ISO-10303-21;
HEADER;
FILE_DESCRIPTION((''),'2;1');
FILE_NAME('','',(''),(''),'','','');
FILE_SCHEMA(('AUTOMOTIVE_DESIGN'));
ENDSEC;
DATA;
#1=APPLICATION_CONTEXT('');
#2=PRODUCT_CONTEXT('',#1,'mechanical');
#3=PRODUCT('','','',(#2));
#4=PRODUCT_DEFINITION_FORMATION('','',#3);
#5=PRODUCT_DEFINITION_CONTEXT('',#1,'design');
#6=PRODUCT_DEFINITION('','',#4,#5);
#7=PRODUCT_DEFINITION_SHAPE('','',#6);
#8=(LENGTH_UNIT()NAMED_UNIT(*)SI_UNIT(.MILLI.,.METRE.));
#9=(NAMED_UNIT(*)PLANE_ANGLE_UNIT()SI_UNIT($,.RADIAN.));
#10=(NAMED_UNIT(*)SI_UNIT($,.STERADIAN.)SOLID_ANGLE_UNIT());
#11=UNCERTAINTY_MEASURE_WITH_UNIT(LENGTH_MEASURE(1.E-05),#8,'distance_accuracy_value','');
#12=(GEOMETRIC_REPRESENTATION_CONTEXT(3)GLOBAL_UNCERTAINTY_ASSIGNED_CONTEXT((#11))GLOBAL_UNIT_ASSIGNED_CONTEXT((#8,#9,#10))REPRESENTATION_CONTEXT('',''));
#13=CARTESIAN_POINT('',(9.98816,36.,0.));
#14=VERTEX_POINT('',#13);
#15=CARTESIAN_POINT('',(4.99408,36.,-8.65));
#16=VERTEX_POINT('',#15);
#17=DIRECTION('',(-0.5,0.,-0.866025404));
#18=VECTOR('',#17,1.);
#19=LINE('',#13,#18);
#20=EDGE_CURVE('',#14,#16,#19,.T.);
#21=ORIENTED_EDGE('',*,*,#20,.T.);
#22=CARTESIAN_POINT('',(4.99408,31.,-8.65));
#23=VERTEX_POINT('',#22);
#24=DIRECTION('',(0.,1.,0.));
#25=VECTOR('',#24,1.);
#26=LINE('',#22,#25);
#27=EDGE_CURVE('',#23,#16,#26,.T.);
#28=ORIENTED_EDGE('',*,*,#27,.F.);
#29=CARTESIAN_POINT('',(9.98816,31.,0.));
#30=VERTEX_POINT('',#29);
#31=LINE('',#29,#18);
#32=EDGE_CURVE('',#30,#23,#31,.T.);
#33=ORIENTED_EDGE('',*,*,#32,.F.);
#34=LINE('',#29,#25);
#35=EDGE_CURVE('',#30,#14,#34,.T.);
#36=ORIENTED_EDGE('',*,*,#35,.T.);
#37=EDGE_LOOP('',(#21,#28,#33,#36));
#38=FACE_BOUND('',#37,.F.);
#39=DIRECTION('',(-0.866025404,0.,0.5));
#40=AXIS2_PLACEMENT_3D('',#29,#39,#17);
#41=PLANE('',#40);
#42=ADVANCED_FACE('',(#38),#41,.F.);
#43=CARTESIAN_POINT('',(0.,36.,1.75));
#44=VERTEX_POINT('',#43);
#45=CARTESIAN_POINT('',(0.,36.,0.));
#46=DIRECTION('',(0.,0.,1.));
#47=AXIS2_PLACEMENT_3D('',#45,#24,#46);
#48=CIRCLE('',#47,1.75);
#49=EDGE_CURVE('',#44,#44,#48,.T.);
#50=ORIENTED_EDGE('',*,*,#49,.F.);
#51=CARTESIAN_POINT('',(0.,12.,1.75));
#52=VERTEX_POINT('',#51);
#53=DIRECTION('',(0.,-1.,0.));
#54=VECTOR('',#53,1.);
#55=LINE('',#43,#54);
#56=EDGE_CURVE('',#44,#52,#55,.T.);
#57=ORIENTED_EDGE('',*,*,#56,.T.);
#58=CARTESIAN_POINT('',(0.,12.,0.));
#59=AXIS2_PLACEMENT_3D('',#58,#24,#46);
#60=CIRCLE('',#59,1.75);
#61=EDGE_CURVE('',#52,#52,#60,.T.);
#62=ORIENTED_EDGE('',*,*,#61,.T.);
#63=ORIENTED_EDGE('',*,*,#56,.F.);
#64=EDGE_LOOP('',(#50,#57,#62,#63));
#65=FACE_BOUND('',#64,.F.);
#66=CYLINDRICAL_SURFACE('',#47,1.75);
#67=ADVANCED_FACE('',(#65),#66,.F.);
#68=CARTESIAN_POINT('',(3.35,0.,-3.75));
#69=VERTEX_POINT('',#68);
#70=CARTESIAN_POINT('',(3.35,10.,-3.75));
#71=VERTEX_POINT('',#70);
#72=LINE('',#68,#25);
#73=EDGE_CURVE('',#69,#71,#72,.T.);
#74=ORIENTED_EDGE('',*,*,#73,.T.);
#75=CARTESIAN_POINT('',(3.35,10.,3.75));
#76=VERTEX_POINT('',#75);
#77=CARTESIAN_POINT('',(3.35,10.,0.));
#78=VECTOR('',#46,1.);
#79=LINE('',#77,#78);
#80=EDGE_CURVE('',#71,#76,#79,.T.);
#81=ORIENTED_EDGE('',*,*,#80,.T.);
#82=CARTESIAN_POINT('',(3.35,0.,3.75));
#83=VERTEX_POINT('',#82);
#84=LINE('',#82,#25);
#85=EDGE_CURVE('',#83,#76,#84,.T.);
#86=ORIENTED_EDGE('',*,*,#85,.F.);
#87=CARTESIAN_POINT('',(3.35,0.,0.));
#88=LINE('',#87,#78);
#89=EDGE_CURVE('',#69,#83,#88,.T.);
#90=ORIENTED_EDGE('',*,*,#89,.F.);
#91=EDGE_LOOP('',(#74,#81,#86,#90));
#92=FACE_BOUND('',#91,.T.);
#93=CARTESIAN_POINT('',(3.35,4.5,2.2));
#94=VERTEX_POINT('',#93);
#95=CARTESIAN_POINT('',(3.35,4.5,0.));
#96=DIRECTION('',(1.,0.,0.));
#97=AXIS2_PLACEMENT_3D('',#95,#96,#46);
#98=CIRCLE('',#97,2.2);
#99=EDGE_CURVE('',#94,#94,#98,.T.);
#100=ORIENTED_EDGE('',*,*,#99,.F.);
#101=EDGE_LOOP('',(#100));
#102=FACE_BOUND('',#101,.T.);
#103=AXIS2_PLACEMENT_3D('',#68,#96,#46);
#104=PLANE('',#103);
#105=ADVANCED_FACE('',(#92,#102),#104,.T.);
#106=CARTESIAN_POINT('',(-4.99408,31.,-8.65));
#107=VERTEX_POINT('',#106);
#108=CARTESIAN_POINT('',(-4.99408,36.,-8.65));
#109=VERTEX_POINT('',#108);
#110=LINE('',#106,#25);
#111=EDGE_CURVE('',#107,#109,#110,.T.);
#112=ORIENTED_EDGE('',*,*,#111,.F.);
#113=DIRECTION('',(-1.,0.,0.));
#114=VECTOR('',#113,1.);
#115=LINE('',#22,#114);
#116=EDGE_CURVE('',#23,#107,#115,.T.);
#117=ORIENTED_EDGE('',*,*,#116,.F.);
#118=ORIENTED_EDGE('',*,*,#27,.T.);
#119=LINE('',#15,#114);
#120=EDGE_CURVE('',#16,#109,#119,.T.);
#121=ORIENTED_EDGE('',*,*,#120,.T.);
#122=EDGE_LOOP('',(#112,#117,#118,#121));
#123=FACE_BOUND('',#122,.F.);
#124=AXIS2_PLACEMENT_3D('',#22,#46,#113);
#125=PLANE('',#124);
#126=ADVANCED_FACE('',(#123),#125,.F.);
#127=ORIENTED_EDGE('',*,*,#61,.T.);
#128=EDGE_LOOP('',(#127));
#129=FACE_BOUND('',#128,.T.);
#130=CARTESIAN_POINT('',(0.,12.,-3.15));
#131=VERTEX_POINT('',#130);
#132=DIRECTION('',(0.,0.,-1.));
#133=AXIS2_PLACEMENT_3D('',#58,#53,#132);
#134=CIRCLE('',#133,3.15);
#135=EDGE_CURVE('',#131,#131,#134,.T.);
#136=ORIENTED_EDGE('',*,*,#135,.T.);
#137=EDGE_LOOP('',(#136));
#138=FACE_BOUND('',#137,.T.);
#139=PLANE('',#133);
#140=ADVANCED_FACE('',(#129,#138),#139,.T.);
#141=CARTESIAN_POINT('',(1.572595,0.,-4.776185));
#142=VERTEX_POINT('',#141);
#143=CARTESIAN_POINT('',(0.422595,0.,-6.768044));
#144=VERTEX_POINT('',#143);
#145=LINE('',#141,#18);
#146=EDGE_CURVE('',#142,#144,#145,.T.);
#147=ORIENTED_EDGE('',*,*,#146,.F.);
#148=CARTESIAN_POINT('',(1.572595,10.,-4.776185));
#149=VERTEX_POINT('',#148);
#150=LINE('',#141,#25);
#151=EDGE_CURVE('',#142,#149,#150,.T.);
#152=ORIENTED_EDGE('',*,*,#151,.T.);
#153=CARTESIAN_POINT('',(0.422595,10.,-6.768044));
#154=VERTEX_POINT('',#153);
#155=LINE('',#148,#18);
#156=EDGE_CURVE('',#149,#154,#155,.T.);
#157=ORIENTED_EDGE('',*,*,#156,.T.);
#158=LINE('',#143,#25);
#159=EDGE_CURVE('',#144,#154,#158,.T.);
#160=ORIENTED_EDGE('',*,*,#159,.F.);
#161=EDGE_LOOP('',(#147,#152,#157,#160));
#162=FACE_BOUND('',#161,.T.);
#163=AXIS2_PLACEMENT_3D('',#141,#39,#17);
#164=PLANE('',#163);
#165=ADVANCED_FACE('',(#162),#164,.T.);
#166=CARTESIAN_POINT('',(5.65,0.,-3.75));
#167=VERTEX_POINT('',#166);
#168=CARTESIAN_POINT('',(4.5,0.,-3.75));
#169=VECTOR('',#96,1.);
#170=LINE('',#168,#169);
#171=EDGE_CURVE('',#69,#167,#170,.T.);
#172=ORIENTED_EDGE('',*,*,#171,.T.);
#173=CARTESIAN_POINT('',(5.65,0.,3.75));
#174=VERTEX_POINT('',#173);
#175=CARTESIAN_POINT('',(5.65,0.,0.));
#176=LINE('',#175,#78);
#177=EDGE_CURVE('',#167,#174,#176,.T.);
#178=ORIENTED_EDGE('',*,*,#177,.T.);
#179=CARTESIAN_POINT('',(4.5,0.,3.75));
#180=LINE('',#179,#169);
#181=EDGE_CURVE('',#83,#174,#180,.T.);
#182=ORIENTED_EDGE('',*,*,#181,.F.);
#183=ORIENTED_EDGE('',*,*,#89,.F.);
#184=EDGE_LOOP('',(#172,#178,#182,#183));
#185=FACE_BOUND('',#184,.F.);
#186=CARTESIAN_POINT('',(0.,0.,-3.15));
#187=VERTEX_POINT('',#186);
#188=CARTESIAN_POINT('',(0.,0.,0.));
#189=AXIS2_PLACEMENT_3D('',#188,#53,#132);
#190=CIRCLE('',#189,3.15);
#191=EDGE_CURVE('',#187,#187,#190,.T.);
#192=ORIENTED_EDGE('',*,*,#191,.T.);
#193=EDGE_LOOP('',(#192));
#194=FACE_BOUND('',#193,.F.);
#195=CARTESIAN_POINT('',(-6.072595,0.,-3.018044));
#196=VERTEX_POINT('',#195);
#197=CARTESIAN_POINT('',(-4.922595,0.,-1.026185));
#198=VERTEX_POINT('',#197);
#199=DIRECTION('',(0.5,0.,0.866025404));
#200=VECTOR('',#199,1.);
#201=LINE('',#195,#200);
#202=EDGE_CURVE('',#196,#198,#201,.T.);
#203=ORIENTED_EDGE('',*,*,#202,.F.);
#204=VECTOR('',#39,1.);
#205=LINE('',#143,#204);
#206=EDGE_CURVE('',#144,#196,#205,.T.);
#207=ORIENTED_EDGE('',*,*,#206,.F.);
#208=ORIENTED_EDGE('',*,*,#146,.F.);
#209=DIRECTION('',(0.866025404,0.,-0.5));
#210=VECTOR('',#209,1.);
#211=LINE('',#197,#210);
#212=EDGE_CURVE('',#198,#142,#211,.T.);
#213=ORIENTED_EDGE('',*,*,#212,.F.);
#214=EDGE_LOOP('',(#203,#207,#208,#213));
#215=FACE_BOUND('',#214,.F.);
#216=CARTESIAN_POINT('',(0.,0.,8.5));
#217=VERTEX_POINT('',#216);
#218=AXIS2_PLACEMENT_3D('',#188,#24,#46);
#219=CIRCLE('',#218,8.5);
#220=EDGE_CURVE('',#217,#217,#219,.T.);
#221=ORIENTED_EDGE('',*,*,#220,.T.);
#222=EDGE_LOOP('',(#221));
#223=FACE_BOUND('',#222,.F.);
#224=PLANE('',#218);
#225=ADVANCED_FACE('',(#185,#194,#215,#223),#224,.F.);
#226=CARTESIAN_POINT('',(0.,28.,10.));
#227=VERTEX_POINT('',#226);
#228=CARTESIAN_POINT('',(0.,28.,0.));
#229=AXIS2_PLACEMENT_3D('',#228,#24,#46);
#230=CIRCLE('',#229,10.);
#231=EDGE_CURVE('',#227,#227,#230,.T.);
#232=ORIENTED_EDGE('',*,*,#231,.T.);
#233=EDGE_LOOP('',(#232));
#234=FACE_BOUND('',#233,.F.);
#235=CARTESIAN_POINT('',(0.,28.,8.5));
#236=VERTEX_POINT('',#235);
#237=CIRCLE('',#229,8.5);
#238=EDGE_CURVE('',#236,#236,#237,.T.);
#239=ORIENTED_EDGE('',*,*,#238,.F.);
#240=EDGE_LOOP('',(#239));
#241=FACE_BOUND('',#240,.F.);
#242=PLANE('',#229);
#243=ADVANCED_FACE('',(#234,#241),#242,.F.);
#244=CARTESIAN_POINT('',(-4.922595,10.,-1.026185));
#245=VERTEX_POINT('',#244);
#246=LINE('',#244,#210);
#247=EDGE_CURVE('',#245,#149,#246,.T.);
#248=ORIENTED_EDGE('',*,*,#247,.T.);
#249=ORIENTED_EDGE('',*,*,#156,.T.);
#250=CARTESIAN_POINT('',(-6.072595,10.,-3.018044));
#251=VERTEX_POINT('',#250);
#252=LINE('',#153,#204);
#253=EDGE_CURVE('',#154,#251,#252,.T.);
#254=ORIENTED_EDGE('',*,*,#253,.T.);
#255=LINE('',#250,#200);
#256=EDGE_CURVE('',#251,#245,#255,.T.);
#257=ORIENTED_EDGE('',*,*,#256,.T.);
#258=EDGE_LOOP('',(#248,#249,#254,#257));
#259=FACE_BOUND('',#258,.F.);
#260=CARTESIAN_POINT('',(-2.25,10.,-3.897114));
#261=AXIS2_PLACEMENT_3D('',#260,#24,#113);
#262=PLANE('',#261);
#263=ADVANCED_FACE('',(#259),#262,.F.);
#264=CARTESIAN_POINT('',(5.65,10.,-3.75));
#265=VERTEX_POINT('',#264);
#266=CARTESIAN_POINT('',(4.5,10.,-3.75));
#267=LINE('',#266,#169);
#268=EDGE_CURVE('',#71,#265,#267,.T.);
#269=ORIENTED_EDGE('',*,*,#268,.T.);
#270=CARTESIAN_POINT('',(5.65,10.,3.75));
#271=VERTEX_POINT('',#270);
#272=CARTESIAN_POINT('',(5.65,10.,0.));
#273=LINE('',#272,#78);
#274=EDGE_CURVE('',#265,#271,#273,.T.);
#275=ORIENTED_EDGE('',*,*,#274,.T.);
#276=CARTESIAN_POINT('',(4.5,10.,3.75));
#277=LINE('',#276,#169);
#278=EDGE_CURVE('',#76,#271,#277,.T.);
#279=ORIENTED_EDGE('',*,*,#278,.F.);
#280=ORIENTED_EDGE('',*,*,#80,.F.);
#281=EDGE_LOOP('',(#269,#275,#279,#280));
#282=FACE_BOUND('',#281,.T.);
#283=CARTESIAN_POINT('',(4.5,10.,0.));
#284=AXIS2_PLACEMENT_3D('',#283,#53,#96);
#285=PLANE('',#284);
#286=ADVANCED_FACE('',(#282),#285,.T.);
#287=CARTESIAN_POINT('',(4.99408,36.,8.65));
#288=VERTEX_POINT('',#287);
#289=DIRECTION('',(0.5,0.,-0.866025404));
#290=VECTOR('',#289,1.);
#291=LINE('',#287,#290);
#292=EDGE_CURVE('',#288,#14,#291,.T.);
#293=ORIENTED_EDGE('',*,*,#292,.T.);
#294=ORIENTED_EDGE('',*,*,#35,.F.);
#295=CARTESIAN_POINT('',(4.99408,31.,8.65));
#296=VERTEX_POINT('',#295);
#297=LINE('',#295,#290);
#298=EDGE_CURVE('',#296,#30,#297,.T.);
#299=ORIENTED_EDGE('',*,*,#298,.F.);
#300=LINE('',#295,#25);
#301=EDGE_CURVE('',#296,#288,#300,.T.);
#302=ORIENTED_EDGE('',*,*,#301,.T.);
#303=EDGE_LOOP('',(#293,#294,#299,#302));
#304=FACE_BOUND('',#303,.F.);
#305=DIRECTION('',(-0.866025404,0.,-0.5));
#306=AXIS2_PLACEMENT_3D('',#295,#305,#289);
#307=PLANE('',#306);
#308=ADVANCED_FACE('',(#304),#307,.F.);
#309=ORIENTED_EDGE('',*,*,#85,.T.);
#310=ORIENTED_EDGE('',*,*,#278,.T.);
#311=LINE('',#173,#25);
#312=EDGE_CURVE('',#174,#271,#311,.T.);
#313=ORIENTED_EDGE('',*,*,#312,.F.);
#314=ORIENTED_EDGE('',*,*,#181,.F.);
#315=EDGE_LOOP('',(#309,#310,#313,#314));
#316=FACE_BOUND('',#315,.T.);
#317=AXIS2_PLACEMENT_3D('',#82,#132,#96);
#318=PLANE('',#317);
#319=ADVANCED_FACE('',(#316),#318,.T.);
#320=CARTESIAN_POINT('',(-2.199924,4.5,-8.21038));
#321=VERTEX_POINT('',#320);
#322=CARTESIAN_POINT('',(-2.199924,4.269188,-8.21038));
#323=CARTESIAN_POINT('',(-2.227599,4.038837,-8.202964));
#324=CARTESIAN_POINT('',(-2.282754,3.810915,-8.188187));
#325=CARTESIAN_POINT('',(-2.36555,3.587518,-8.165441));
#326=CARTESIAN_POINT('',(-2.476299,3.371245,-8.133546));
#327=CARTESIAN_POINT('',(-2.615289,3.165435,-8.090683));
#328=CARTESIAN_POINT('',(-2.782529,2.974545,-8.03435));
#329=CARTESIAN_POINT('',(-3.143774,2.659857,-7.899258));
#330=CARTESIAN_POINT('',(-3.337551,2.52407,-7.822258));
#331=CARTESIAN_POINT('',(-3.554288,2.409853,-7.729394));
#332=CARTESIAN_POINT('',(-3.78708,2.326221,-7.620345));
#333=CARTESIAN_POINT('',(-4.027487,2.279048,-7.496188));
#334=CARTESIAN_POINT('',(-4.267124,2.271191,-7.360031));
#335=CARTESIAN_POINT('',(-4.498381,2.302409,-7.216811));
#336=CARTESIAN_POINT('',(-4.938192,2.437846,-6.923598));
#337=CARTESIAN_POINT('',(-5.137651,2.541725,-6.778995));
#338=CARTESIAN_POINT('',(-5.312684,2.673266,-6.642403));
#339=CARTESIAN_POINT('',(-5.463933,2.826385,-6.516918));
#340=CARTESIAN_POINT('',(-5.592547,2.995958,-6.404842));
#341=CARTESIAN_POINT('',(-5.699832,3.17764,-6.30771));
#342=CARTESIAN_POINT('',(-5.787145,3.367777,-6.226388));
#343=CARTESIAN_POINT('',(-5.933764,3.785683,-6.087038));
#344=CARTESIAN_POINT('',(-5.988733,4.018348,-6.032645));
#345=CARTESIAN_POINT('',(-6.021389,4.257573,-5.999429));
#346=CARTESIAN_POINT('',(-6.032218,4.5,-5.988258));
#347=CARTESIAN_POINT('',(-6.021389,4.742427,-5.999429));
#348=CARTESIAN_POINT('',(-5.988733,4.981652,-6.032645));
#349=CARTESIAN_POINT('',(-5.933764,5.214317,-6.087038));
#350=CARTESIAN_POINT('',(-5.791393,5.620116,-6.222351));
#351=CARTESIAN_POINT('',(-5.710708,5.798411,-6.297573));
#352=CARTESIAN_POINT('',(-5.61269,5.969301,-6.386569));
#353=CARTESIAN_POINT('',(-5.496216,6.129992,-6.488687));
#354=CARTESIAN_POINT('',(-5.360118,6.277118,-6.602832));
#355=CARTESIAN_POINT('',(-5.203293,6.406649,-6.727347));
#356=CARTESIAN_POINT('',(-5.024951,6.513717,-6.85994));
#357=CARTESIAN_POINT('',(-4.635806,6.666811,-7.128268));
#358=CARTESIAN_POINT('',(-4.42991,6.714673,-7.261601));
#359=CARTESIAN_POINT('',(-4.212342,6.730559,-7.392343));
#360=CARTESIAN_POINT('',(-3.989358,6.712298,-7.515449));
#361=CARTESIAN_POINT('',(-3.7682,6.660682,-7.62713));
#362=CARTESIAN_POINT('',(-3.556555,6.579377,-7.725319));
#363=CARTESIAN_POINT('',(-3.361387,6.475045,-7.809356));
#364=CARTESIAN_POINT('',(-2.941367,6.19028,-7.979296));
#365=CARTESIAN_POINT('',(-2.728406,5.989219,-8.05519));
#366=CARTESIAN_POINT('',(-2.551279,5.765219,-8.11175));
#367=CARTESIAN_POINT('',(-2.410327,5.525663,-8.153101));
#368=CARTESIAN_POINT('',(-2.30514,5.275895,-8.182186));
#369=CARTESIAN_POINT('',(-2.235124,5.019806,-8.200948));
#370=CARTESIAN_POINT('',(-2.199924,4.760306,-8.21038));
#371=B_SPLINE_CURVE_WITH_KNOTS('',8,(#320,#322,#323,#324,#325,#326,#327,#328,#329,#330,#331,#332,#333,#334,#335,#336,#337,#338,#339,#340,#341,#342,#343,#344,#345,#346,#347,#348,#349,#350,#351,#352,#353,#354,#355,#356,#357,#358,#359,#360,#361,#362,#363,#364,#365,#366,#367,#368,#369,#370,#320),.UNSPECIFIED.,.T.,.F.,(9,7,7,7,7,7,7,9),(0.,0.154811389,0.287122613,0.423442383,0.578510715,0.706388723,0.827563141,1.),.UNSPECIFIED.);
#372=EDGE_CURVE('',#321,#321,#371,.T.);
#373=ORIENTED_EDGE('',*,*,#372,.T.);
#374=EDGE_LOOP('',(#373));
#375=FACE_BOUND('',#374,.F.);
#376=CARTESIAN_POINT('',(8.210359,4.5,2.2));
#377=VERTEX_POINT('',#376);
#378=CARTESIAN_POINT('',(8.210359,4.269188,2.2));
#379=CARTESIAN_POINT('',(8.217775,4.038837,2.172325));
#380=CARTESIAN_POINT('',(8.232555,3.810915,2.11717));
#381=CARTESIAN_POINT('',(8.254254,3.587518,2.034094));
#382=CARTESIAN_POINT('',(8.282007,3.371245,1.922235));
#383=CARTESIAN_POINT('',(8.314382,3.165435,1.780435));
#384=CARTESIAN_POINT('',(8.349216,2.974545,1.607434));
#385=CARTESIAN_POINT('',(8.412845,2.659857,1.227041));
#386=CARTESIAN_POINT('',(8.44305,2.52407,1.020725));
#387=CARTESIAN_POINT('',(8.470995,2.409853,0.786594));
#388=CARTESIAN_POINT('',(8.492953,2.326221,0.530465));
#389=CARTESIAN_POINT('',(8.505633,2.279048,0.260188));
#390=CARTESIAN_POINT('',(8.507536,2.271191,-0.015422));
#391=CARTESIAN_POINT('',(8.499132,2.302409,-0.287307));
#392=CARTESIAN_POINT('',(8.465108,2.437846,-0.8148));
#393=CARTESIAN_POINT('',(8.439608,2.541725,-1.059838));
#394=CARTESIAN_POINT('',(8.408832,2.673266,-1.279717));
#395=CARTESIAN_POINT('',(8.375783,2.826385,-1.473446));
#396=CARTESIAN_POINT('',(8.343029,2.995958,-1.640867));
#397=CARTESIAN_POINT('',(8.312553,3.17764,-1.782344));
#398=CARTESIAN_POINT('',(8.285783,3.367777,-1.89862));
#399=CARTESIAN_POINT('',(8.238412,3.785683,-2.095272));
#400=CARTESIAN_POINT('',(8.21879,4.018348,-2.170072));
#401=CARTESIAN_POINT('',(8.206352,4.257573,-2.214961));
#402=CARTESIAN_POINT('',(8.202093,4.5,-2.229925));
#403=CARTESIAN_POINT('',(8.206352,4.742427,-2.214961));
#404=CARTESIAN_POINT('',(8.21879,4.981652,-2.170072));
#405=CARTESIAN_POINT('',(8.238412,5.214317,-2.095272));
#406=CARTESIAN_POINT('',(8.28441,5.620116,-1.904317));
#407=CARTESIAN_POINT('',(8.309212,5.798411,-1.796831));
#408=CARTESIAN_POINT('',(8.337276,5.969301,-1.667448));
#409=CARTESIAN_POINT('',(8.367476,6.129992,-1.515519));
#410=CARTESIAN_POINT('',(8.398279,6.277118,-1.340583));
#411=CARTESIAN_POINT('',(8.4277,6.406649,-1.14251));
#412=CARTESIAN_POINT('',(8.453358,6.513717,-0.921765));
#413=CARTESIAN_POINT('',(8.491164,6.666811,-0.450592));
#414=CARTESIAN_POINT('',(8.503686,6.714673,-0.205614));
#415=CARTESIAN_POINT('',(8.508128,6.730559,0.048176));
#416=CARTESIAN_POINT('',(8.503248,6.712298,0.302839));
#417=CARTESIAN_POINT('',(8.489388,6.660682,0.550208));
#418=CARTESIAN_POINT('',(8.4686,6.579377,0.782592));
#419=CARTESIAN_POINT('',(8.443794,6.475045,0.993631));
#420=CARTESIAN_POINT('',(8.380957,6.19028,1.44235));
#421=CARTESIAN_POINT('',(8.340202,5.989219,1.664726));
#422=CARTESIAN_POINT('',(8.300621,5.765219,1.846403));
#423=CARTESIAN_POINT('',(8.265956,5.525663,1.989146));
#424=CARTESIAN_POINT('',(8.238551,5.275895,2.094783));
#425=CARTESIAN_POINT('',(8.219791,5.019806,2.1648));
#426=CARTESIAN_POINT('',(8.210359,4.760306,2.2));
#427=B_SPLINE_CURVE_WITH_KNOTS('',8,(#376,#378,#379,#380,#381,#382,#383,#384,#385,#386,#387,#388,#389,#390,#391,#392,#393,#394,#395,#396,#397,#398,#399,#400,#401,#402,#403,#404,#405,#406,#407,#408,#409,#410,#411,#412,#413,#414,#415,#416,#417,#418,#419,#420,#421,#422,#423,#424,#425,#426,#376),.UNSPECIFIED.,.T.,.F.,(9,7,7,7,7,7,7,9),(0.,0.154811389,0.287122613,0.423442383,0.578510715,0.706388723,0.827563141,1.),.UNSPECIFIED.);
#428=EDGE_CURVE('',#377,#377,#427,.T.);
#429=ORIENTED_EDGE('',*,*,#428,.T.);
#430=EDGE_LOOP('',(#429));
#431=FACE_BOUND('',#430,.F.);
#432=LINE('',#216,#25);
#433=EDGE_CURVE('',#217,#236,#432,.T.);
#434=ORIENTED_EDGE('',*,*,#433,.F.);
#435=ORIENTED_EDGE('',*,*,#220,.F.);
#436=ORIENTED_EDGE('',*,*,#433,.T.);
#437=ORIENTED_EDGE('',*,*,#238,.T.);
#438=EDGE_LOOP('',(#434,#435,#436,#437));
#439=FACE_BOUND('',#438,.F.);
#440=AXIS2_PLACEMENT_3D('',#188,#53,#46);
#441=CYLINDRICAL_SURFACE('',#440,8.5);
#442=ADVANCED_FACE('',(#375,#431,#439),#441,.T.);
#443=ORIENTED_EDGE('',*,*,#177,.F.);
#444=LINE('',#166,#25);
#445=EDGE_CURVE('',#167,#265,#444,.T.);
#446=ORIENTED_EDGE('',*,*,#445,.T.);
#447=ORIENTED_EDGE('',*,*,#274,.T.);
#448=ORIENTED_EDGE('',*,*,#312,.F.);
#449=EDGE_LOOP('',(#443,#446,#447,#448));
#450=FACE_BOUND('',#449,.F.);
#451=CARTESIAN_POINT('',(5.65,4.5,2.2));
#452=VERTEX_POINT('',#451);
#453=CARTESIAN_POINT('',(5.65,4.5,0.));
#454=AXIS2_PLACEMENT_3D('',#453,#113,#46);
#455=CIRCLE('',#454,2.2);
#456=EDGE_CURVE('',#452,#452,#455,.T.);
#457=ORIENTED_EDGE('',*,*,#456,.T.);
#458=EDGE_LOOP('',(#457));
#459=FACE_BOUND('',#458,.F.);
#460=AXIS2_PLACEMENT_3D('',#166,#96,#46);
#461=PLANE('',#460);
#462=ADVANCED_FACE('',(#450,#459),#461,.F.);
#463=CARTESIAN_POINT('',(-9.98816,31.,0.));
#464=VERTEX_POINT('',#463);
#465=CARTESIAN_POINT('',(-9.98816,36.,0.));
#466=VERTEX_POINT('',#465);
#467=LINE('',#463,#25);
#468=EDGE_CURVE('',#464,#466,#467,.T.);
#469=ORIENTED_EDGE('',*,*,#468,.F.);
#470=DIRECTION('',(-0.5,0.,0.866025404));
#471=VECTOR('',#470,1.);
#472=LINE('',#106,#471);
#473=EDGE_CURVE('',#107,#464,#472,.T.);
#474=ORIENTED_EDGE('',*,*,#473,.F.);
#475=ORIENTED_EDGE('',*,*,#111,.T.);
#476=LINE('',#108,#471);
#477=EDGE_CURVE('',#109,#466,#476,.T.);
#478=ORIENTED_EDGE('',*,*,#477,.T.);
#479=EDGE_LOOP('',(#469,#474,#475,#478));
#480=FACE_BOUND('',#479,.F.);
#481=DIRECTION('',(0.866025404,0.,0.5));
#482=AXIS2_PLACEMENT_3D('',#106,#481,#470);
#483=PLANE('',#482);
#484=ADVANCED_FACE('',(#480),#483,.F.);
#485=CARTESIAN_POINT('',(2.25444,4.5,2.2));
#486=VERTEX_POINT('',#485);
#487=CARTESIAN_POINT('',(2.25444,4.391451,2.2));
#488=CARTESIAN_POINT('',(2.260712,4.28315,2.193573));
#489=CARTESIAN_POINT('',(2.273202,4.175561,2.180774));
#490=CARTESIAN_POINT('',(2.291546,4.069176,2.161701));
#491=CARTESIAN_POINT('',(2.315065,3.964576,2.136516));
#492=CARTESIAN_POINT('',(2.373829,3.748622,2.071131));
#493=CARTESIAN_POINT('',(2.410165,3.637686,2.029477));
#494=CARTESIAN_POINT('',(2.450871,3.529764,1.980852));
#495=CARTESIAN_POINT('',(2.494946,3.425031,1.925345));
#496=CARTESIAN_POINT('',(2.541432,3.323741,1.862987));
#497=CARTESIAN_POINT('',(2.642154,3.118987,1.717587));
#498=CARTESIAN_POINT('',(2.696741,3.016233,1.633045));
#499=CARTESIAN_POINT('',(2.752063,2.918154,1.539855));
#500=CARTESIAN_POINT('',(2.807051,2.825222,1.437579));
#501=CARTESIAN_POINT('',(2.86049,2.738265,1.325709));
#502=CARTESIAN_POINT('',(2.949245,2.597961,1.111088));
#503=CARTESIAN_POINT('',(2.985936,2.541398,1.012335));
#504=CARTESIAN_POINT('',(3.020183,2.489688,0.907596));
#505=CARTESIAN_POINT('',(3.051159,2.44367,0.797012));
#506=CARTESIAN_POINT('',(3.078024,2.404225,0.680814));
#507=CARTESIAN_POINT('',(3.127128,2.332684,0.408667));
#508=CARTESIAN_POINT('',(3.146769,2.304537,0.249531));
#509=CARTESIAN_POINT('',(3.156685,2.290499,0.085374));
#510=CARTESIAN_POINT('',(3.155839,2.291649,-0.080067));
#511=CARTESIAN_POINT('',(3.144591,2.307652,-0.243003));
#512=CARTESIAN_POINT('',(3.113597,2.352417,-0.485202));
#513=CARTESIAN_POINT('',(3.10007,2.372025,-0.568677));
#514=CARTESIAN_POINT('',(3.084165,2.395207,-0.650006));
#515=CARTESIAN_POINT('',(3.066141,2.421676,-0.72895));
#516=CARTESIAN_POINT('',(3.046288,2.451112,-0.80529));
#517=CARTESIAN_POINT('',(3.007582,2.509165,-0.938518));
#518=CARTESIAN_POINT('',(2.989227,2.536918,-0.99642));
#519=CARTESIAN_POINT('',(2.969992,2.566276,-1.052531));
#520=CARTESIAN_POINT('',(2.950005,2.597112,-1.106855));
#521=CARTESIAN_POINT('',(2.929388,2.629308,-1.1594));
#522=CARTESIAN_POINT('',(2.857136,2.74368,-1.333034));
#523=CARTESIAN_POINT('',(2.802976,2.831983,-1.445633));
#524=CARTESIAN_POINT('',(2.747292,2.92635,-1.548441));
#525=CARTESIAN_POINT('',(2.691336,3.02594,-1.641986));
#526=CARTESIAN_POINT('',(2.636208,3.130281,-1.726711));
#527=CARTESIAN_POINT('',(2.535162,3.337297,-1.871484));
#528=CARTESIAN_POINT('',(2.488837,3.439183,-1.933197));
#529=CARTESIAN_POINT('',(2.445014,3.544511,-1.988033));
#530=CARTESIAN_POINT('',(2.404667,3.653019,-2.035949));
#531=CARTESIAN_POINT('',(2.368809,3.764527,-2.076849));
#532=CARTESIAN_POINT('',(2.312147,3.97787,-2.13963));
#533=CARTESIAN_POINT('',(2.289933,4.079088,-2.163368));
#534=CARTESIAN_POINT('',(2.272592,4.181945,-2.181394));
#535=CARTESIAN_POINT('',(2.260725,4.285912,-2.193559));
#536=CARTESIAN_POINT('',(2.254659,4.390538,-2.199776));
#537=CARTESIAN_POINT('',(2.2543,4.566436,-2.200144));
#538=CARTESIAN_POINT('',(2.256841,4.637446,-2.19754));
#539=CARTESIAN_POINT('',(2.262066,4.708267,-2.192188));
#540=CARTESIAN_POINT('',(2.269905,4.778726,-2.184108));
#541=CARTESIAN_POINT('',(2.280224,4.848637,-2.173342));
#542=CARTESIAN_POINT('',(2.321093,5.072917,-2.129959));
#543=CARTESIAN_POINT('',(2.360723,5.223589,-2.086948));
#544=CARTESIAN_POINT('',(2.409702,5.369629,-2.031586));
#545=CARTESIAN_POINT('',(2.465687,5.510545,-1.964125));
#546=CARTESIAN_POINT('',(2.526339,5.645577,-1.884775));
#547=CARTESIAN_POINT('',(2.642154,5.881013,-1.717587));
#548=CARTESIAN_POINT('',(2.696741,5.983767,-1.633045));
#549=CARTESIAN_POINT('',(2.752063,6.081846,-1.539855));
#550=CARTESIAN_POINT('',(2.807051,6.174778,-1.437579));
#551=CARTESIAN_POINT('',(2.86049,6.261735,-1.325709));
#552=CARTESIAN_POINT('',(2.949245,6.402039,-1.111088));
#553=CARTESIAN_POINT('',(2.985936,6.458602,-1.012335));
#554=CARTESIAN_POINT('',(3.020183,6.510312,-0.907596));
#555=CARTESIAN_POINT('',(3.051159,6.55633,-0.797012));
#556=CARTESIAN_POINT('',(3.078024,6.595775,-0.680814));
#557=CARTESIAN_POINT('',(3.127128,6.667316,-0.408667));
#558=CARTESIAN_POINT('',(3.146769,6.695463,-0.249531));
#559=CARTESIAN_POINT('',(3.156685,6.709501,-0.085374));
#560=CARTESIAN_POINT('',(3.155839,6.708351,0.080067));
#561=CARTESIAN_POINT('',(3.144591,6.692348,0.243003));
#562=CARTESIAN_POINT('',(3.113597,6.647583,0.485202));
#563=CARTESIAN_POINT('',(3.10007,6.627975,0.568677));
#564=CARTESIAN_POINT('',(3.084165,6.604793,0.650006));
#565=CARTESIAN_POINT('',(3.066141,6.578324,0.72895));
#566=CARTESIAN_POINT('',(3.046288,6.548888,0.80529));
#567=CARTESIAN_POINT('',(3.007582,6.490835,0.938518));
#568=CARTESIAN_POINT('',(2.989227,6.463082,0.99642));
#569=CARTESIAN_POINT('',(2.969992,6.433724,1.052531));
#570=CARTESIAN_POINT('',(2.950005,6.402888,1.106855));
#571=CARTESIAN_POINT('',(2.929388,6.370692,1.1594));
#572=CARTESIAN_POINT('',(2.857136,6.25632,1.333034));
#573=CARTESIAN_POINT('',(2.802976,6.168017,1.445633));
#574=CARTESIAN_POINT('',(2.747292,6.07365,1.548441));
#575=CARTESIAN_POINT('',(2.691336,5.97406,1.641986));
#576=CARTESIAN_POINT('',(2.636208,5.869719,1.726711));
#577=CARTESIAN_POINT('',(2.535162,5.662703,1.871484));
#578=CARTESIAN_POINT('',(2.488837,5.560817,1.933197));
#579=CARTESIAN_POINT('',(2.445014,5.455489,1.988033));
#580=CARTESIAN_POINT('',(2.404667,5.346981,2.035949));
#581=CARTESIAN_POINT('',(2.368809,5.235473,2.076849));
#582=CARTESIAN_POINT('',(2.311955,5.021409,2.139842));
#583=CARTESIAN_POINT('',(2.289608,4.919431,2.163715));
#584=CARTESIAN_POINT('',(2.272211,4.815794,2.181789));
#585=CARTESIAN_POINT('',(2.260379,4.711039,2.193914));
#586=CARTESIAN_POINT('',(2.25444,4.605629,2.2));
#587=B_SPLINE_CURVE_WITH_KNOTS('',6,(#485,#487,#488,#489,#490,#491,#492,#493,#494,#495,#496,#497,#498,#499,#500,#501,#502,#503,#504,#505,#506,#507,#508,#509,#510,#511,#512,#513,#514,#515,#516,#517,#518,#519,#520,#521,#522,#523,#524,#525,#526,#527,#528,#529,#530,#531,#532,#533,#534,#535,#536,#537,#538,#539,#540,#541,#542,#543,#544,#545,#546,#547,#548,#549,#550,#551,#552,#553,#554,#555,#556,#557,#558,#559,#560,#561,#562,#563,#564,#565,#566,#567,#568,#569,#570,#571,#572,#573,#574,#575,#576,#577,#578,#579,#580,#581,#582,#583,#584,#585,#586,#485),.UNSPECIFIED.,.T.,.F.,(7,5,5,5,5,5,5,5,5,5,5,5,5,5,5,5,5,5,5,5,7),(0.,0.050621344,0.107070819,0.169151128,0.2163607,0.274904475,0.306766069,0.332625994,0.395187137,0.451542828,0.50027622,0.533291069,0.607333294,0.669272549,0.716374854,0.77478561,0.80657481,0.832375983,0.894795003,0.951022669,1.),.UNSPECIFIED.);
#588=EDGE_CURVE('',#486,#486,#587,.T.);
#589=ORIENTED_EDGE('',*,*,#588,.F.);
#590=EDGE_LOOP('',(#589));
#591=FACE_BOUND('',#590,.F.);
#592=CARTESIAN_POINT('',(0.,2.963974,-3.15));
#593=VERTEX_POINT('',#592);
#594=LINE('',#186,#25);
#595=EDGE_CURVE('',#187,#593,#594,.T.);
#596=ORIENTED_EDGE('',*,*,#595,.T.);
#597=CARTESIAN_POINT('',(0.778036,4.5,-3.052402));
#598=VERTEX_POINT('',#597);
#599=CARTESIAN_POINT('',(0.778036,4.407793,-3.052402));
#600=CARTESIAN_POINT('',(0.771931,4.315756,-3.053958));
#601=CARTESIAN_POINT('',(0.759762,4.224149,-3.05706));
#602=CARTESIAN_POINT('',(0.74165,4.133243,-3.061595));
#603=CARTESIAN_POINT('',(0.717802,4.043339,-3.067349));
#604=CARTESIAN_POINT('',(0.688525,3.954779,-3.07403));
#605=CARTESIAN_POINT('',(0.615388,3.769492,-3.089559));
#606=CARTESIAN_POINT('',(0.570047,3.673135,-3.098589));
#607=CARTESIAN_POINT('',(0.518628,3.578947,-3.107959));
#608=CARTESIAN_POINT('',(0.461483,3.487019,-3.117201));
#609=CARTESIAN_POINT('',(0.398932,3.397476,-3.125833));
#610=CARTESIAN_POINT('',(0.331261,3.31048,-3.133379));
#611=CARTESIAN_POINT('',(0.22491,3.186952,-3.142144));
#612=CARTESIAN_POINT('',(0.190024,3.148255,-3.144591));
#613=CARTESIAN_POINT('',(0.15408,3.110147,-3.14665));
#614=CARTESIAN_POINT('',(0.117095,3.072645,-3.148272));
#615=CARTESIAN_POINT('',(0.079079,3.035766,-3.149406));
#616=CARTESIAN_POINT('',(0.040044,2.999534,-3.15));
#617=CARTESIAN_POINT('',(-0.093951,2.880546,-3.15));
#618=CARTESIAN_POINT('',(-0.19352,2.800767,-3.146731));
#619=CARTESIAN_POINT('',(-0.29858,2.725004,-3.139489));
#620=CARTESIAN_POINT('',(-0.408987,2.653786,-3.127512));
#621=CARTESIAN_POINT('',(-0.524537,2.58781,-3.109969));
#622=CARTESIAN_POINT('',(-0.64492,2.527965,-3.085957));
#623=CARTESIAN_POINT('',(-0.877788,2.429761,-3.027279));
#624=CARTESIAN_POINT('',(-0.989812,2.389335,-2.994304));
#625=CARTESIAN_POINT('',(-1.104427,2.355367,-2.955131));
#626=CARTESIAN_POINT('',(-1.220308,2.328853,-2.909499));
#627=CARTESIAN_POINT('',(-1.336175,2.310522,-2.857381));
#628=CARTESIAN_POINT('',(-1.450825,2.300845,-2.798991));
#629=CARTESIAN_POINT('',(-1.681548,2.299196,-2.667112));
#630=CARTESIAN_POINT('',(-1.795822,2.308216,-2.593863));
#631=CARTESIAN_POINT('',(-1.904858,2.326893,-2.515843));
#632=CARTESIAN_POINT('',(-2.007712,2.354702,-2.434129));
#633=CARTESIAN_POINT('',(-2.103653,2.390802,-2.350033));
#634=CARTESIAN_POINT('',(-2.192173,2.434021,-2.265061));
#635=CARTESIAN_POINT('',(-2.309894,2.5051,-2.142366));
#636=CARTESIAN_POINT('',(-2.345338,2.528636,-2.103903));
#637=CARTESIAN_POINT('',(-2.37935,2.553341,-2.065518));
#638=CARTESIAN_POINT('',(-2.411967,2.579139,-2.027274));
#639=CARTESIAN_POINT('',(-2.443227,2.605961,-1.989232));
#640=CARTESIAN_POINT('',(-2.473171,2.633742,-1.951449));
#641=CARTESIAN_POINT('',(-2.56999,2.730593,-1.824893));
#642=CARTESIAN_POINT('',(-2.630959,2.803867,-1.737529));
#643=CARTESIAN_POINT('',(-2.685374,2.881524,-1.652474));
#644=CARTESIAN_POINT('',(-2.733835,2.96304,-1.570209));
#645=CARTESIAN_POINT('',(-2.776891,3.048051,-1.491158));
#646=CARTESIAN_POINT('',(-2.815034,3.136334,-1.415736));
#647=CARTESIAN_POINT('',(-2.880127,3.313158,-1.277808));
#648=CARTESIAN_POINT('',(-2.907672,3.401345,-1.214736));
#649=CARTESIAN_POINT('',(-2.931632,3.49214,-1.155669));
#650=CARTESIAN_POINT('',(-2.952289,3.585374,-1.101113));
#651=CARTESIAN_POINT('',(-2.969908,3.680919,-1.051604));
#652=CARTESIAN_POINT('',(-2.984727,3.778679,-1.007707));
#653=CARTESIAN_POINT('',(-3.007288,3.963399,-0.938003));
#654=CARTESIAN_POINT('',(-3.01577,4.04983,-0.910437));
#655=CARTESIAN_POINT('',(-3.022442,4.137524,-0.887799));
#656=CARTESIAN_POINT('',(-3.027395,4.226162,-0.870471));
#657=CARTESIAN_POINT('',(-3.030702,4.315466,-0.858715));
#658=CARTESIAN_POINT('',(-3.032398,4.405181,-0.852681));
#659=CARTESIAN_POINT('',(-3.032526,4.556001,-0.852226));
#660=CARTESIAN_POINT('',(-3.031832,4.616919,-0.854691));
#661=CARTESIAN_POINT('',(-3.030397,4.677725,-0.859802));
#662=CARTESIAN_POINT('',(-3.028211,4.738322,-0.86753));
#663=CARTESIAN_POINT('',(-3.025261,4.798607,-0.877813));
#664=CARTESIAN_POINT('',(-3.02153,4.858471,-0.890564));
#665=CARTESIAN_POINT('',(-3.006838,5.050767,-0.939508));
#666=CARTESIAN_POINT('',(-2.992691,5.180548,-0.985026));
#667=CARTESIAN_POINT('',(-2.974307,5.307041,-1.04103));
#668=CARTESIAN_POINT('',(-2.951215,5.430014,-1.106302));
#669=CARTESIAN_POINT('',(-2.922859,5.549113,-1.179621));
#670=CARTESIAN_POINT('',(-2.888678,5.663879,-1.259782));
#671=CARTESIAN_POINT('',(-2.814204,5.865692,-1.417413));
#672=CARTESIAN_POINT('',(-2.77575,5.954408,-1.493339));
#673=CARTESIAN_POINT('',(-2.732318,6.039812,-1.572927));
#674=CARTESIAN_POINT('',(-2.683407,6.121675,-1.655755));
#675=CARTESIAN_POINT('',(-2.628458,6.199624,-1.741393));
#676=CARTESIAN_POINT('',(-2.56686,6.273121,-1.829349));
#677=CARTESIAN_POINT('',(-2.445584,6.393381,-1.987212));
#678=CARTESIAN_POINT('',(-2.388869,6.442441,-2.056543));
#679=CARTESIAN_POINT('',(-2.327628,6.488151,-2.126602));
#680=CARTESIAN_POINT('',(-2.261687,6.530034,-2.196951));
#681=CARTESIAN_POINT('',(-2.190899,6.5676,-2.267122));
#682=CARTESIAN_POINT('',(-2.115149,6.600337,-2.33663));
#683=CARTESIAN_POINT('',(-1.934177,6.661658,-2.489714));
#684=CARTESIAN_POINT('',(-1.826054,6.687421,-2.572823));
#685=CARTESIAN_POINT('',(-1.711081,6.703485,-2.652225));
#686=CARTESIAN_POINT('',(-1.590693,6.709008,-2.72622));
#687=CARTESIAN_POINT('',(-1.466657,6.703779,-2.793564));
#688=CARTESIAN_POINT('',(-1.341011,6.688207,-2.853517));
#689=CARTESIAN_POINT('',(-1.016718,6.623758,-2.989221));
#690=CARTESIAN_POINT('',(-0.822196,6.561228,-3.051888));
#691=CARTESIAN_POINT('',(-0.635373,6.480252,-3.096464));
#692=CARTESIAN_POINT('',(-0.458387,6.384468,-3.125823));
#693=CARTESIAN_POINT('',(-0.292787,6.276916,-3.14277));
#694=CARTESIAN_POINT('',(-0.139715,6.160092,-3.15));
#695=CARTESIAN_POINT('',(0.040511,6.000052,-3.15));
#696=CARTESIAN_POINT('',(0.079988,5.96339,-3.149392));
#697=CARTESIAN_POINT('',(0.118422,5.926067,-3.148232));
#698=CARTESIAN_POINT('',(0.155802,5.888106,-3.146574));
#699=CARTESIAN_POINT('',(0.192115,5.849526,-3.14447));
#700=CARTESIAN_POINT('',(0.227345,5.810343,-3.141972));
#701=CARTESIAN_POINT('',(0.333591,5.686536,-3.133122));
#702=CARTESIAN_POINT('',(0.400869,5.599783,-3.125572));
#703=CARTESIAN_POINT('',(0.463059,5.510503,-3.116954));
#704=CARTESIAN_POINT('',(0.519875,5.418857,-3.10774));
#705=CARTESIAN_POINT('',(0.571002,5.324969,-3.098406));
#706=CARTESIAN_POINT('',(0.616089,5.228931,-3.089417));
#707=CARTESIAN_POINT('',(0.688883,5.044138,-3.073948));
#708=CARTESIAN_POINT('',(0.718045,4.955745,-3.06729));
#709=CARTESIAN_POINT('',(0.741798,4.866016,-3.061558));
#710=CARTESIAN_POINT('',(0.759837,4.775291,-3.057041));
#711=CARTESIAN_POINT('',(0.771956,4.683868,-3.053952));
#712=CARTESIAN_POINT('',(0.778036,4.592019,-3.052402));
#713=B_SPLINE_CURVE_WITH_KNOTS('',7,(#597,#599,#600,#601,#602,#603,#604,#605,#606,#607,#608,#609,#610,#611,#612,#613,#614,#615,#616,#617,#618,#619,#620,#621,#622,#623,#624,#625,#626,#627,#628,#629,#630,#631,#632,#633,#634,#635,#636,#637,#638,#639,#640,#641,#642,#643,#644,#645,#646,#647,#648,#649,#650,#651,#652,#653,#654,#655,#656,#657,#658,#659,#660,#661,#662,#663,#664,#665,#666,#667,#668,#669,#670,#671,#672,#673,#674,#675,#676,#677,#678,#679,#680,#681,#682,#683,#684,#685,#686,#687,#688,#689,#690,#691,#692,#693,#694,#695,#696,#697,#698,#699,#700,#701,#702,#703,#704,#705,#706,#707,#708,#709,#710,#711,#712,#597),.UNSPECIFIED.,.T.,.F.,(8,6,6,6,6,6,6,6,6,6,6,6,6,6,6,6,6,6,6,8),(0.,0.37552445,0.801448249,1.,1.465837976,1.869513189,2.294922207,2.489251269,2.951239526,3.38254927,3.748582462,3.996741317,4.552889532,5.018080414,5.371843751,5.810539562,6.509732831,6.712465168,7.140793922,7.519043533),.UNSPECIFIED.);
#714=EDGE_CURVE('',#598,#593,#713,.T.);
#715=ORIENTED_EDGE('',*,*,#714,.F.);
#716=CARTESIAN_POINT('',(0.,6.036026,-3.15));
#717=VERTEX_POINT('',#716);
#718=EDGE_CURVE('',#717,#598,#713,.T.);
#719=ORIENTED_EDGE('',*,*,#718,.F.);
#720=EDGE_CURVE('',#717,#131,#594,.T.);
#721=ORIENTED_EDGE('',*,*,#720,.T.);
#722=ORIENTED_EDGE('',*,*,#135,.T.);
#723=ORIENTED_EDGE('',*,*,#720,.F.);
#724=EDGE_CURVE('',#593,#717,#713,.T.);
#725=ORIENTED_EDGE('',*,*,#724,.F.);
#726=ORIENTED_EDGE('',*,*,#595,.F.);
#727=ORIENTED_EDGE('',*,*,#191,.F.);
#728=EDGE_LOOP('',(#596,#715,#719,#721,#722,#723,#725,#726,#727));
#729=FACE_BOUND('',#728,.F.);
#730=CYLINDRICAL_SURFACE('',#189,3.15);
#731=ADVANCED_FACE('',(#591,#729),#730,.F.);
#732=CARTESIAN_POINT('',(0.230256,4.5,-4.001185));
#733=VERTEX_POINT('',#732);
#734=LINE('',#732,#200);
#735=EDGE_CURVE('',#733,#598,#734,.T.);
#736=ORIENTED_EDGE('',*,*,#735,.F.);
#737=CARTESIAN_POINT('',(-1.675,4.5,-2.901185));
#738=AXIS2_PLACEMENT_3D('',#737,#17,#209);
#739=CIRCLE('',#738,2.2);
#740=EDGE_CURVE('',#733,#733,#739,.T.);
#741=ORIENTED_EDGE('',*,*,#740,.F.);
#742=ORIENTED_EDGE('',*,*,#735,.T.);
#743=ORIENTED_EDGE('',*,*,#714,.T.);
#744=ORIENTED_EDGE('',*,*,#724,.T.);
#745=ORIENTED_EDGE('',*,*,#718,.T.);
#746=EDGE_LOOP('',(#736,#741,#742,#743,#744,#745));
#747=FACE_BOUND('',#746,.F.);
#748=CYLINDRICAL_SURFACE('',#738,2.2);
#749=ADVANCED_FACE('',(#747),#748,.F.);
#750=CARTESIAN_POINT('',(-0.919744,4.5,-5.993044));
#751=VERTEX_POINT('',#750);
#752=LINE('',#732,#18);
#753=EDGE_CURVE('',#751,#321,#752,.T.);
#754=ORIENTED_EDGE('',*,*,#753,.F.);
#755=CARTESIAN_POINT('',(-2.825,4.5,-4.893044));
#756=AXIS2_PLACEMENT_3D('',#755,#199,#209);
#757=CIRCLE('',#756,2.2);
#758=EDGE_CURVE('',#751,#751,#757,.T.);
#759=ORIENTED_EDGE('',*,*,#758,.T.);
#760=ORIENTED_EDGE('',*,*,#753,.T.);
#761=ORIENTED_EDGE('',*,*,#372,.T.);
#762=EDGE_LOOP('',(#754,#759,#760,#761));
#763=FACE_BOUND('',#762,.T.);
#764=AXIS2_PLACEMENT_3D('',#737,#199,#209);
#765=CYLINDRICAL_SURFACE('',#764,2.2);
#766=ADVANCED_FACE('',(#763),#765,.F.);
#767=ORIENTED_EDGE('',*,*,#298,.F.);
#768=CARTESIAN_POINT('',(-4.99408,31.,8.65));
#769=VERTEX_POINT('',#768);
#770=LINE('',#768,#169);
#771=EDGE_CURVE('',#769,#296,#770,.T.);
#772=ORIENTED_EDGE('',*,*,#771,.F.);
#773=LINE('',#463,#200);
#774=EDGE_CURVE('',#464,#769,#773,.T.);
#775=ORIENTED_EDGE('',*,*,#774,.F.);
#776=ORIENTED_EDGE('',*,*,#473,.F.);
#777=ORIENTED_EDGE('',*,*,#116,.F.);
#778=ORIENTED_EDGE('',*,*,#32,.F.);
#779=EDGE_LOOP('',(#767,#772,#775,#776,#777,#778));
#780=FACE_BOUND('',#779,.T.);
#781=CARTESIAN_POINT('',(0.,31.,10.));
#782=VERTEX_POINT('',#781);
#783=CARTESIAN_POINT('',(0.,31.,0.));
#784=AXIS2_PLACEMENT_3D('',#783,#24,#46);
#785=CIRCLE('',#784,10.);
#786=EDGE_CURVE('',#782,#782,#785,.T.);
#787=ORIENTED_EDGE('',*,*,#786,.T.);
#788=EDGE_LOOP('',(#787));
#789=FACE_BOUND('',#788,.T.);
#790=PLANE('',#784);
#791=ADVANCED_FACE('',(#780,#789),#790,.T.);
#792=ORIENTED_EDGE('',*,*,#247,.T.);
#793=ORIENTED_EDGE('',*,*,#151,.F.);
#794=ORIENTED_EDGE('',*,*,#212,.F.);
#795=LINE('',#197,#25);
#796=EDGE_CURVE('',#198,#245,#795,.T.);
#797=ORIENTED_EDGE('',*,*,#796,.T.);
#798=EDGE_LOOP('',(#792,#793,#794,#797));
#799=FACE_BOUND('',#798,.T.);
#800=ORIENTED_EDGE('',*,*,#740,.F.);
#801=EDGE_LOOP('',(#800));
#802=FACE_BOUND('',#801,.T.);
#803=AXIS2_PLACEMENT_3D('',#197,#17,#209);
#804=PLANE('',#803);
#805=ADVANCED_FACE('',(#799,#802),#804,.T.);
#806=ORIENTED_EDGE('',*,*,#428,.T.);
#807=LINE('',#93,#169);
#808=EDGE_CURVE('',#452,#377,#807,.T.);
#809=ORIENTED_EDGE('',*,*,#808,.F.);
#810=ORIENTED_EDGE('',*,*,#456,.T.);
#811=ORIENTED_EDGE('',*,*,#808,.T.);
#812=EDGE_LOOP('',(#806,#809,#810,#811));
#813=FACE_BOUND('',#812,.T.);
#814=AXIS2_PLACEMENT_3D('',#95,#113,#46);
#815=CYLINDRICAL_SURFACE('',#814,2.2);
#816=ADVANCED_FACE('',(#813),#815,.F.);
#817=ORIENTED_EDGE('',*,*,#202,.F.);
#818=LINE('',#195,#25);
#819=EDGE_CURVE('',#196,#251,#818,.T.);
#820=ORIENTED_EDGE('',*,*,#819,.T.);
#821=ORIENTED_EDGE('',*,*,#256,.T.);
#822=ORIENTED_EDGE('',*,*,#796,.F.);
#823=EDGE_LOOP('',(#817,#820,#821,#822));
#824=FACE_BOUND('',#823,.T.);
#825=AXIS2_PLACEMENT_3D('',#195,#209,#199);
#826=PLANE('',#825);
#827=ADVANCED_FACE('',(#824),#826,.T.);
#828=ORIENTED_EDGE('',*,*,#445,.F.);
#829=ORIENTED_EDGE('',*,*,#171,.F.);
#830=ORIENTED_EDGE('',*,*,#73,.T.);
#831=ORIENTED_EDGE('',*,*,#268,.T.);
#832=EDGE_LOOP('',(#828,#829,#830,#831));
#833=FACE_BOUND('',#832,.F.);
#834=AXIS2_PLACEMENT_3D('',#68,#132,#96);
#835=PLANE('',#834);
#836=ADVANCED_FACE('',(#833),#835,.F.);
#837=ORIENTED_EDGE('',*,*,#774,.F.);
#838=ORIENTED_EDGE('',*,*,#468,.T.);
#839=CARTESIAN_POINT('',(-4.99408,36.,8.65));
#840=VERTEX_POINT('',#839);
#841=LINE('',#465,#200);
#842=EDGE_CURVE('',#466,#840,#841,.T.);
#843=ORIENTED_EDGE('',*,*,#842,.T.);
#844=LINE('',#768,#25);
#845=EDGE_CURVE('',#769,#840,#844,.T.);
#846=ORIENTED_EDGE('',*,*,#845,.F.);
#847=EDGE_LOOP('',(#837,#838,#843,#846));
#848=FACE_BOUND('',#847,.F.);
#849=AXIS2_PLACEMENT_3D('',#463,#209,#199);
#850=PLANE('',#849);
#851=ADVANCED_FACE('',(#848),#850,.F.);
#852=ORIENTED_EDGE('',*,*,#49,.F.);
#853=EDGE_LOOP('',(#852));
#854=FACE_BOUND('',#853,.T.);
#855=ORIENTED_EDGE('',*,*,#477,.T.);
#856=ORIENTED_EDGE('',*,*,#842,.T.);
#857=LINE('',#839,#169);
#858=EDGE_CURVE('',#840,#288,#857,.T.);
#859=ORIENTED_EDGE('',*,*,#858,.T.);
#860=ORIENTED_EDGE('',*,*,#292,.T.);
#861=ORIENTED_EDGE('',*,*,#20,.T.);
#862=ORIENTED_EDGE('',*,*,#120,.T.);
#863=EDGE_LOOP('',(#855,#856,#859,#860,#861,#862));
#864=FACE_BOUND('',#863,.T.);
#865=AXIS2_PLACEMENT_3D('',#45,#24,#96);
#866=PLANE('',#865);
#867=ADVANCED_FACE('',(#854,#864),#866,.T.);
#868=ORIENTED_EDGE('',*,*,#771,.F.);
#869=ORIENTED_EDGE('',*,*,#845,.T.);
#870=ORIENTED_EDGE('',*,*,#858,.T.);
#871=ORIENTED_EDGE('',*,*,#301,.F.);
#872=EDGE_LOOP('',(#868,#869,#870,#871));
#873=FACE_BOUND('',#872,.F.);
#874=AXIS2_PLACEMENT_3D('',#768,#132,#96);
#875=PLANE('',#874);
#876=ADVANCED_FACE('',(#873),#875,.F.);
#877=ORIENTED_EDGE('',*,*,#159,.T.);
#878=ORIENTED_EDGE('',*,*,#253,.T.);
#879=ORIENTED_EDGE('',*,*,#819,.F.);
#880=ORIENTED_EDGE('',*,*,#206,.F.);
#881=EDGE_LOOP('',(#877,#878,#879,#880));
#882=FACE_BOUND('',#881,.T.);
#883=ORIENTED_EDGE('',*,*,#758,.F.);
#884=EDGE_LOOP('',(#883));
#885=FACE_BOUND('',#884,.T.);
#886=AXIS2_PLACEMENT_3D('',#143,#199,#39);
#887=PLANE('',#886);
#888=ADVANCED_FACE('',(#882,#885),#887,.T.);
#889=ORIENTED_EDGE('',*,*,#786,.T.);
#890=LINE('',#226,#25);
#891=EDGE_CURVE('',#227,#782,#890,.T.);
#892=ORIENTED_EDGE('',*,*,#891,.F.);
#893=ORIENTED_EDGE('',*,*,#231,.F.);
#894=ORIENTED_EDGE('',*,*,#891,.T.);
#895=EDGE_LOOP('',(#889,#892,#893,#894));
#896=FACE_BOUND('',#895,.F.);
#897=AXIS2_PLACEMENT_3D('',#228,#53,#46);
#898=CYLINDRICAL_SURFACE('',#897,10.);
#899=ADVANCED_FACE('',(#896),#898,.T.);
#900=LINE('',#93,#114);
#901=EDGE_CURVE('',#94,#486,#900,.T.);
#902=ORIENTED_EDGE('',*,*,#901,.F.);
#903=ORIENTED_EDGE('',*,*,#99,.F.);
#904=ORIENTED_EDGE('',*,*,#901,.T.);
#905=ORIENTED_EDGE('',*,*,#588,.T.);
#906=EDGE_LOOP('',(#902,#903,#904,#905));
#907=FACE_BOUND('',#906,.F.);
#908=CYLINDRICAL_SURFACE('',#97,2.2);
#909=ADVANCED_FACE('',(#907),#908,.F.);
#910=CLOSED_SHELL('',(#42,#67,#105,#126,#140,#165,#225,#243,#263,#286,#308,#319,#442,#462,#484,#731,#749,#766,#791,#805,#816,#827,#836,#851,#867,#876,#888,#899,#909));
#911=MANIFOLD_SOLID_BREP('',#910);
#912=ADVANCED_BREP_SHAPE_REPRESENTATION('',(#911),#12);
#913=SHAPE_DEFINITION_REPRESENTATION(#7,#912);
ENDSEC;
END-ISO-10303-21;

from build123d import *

# Parameters (mm, degrees)
SKETCH_1_R                           = 8.5
EXTRUDE_537_DEPTH                    = 28
SKETCH_2_R                           = 10
EXTRUDE_624_DEPTH                    = 3
EXTRUDE_747_DEPTH                    = 5
SKETCH_4_R                           = 3.15
CUT_EXTRUDE_845_DEPTH                = 12
SKETCH_5_W                           = 2.3
SKETCH_5_H                           = 7.5
CUT_EXTRUDE_1044_DEPTH               = 10
SKETCH_6_R                           = 2.2
CUT_EXTRUDE_1_DEPTH                  = 40.676472878
CUT_EXTRUDE_1_DIRECTION_2_REACH      = 41.676
CUT_EXTRUDE_1_DIRECTION_2_END_RADIUS = 3.15
SKETCH_7_R                           = 2.2
CUT_EXTRUDE_2_DEPTH                  = 40.984324454
CUT_EXTRUDE_2_DIRECTION_2_REACH      = 41.984
CUT_EXTRUDE_2_DIRECTION_2_END_RADIUS = 3.15
SKETCH_10_R                          = 1.75
CUT_EXTRUDE_1470_DEPTH               = 39.678159305


with BuildPart() as part:
    # Эскиз1 → Extrude 537 (new body)
    with BuildSketch(Plane(origin=(0, 0, 0), x_dir=(1, 0, 0), z_dir=(0, 1, 0))):
        with Locations(Location((0, 0, 0), (0, 0, 270))):
            Circle(SKETCH_1_R)
    extrude(amount=EXTRUDE_537_DEPTH)

    # Эскиз2 → Extrude 624 (add)
    with BuildSketch(Plane(origin=(0, 28, 0), x_dir=(1, 0, 0), z_dir=(0, 1, 0))):
        with Locations(Location((0, 0, 0), (0, 0, 270))):
            Circle(SKETCH_2_R)
    extrude(amount=EXTRUDE_624_DEPTH)

    # Эскиз3 → Extrude 747 (add)
    with BuildSketch(Plane(origin=(0, 31, 0), x_dir=(1, 0, 0), z_dir=(0, 1, 0))):
        Polygon((9.988159657, 0), (4.994079828, 8.65), (-4.994079828, 8.65), (-9.988159657, 0), (-4.994079828, -8.65), (4.994079828, -8.65), align=None)
    extrude(amount=EXTRUDE_747_DEPTH)

    # Эскиз4 → Cut-Extrude 845 (cut)
    with BuildSketch(Plane.XZ):
        with Locations(Location((0, 0, 0), (0, 0, 270))):
            Circle(SKETCH_4_R)
    extrude(amount=-CUT_EXTRUDE_845_DEPTH, mode=Mode.SUBTRACT)

    # Эскиз5 → Cut-Extrude 1044 (cut)
    with BuildSketch(Plane.XZ):
        with Locations((4.5, 0)):
            Rectangle(SKETCH_5_W, SKETCH_5_H)
        Polygon((-4.922595264, -1.026185103), (1.572595264, -4.776185103), (0.422595264, -6.768043531), (-6.072595264, -3.018043531), align=None)
    extrude(amount=-CUT_EXTRUDE_1044_DEPTH, mode=Mode.SUBTRACT)

    # Эскиз6 → отверстие чтоб прикрутить 1 (cut)
    with BuildSketch(Plane(origin=(3.35, 0, 0), x_dir=(0, 0, -1), z_dir=(1, 0, 0))):
        with Locations(Location((0, 4.5, 0), (0, 0, 180))):
            Circle(SKETCH_6_R)
    extrude(amount=CUT_EXTRUDE_1_DEPTH, mode=Mode.SUBTRACT)

    # отверстие чтоб прикрутить 1 direction 2: up to this cylinder (the profile starts outside it)
    cut_extrude_1_direction_2_end = Plane(origin=(0, 4.5, 0), z_dir=(0, -1, 0)) * Cylinder(CUT_EXTRUDE_1_DIRECTION_2_END_RADIUS, 90.652, mode=Mode.PRIVATE)
    # Эскиз6 → отверстие чтоб прикрутить 1 direction 2 (cut, up to the surface)
    with BuildSketch(Plane(origin=(3.35, 0, 0), x_dir=(0, 0, -1), z_dir=(1, 0, 0)), mode=Mode.PRIVATE) as cut_extrude_1_direction_2_sk1:
        with Locations(Location((0, 4.5, 0), (0, 0, 180))):
            Circle(SKETCH_6_R)
    cut_extrude_1_direction_2_tool1 = extrude(cut_extrude_1_direction_2_sk1.sketch, amount=-CUT_EXTRUDE_1_DIRECTION_2_REACH, mode=Mode.PRIVATE) - cut_extrude_1_direction_2_end
    add(cut_extrude_1_direction_2_tool1.solids().sort_by_distance((3.35, 4.5, 0))[0], mode=Mode.SUBTRACT)

    # Эскиз7 → отверстие чтоб прикрутить 2 (cut)
    with BuildSketch(Plane(origin=(-1.675, 0, -2.901185103), x_dir=(-0.8660254037844362, 0, 0.5000000000000042), z_dir=(-0.5000000000000043, 0, -0.8660254037844363))):
        with Locations(Location((0, 4.5, 0), (0, 0, 180))):
            Circle(SKETCH_7_R)
    extrude(amount=CUT_EXTRUDE_2_DEPTH, mode=Mode.SUBTRACT)

    # отверстие чтоб прикрутить 2 direction 2: up to this cylinder (the profile starts outside it)
    cut_extrude_2_direction_2_end = Plane(origin=(0, 4.5, 0), z_dir=(0, -1, 0)) * Cylinder(CUT_EXTRUDE_2_DIRECTION_2_END_RADIUS, 91.268, mode=Mode.PRIVATE)
    # Эскиз7 → отверстие чтоб прикрутить 2 direction 2 (cut, up to the surface)
    with BuildSketch(Plane(origin=(-1.675, 0, -2.901185103), x_dir=(-0.8660254037844362, 0, 0.5000000000000042), z_dir=(-0.5000000000000043, 0, -0.8660254037844363)), mode=Mode.PRIVATE) as cut_extrude_2_direction_2_sk1:
        with Locations(Location((0, 4.5, 0), (0, 0, 180))):
            Circle(SKETCH_7_R)
    cut_extrude_2_direction_2_tool1 = extrude(cut_extrude_2_direction_2_sk1.sketch, amount=-CUT_EXTRUDE_2_DIRECTION_2_REACH, mode=Mode.PRIVATE) - cut_extrude_2_direction_2_end
    add(cut_extrude_2_direction_2_tool1.solids().sort_by_distance((-1.675, 4.5, -2.901185))[0], mode=Mode.SUBTRACT)

    # Эскиз10 → Cut-Extrude 1470 (cut, through all)
    with BuildSketch(Plane(origin=(0, 36, 0), x_dir=(1, 0, 0), z_dir=(0, 1, 0))):
        with Locations(Location((0, 0, 0), (0, 0, 270))):
            Circle(SKETCH_10_R)
    extrude(amount=-CUT_EXTRUDE_1470_DEPTH, mode=Mode.SUBTRACT)


solid = part.part
